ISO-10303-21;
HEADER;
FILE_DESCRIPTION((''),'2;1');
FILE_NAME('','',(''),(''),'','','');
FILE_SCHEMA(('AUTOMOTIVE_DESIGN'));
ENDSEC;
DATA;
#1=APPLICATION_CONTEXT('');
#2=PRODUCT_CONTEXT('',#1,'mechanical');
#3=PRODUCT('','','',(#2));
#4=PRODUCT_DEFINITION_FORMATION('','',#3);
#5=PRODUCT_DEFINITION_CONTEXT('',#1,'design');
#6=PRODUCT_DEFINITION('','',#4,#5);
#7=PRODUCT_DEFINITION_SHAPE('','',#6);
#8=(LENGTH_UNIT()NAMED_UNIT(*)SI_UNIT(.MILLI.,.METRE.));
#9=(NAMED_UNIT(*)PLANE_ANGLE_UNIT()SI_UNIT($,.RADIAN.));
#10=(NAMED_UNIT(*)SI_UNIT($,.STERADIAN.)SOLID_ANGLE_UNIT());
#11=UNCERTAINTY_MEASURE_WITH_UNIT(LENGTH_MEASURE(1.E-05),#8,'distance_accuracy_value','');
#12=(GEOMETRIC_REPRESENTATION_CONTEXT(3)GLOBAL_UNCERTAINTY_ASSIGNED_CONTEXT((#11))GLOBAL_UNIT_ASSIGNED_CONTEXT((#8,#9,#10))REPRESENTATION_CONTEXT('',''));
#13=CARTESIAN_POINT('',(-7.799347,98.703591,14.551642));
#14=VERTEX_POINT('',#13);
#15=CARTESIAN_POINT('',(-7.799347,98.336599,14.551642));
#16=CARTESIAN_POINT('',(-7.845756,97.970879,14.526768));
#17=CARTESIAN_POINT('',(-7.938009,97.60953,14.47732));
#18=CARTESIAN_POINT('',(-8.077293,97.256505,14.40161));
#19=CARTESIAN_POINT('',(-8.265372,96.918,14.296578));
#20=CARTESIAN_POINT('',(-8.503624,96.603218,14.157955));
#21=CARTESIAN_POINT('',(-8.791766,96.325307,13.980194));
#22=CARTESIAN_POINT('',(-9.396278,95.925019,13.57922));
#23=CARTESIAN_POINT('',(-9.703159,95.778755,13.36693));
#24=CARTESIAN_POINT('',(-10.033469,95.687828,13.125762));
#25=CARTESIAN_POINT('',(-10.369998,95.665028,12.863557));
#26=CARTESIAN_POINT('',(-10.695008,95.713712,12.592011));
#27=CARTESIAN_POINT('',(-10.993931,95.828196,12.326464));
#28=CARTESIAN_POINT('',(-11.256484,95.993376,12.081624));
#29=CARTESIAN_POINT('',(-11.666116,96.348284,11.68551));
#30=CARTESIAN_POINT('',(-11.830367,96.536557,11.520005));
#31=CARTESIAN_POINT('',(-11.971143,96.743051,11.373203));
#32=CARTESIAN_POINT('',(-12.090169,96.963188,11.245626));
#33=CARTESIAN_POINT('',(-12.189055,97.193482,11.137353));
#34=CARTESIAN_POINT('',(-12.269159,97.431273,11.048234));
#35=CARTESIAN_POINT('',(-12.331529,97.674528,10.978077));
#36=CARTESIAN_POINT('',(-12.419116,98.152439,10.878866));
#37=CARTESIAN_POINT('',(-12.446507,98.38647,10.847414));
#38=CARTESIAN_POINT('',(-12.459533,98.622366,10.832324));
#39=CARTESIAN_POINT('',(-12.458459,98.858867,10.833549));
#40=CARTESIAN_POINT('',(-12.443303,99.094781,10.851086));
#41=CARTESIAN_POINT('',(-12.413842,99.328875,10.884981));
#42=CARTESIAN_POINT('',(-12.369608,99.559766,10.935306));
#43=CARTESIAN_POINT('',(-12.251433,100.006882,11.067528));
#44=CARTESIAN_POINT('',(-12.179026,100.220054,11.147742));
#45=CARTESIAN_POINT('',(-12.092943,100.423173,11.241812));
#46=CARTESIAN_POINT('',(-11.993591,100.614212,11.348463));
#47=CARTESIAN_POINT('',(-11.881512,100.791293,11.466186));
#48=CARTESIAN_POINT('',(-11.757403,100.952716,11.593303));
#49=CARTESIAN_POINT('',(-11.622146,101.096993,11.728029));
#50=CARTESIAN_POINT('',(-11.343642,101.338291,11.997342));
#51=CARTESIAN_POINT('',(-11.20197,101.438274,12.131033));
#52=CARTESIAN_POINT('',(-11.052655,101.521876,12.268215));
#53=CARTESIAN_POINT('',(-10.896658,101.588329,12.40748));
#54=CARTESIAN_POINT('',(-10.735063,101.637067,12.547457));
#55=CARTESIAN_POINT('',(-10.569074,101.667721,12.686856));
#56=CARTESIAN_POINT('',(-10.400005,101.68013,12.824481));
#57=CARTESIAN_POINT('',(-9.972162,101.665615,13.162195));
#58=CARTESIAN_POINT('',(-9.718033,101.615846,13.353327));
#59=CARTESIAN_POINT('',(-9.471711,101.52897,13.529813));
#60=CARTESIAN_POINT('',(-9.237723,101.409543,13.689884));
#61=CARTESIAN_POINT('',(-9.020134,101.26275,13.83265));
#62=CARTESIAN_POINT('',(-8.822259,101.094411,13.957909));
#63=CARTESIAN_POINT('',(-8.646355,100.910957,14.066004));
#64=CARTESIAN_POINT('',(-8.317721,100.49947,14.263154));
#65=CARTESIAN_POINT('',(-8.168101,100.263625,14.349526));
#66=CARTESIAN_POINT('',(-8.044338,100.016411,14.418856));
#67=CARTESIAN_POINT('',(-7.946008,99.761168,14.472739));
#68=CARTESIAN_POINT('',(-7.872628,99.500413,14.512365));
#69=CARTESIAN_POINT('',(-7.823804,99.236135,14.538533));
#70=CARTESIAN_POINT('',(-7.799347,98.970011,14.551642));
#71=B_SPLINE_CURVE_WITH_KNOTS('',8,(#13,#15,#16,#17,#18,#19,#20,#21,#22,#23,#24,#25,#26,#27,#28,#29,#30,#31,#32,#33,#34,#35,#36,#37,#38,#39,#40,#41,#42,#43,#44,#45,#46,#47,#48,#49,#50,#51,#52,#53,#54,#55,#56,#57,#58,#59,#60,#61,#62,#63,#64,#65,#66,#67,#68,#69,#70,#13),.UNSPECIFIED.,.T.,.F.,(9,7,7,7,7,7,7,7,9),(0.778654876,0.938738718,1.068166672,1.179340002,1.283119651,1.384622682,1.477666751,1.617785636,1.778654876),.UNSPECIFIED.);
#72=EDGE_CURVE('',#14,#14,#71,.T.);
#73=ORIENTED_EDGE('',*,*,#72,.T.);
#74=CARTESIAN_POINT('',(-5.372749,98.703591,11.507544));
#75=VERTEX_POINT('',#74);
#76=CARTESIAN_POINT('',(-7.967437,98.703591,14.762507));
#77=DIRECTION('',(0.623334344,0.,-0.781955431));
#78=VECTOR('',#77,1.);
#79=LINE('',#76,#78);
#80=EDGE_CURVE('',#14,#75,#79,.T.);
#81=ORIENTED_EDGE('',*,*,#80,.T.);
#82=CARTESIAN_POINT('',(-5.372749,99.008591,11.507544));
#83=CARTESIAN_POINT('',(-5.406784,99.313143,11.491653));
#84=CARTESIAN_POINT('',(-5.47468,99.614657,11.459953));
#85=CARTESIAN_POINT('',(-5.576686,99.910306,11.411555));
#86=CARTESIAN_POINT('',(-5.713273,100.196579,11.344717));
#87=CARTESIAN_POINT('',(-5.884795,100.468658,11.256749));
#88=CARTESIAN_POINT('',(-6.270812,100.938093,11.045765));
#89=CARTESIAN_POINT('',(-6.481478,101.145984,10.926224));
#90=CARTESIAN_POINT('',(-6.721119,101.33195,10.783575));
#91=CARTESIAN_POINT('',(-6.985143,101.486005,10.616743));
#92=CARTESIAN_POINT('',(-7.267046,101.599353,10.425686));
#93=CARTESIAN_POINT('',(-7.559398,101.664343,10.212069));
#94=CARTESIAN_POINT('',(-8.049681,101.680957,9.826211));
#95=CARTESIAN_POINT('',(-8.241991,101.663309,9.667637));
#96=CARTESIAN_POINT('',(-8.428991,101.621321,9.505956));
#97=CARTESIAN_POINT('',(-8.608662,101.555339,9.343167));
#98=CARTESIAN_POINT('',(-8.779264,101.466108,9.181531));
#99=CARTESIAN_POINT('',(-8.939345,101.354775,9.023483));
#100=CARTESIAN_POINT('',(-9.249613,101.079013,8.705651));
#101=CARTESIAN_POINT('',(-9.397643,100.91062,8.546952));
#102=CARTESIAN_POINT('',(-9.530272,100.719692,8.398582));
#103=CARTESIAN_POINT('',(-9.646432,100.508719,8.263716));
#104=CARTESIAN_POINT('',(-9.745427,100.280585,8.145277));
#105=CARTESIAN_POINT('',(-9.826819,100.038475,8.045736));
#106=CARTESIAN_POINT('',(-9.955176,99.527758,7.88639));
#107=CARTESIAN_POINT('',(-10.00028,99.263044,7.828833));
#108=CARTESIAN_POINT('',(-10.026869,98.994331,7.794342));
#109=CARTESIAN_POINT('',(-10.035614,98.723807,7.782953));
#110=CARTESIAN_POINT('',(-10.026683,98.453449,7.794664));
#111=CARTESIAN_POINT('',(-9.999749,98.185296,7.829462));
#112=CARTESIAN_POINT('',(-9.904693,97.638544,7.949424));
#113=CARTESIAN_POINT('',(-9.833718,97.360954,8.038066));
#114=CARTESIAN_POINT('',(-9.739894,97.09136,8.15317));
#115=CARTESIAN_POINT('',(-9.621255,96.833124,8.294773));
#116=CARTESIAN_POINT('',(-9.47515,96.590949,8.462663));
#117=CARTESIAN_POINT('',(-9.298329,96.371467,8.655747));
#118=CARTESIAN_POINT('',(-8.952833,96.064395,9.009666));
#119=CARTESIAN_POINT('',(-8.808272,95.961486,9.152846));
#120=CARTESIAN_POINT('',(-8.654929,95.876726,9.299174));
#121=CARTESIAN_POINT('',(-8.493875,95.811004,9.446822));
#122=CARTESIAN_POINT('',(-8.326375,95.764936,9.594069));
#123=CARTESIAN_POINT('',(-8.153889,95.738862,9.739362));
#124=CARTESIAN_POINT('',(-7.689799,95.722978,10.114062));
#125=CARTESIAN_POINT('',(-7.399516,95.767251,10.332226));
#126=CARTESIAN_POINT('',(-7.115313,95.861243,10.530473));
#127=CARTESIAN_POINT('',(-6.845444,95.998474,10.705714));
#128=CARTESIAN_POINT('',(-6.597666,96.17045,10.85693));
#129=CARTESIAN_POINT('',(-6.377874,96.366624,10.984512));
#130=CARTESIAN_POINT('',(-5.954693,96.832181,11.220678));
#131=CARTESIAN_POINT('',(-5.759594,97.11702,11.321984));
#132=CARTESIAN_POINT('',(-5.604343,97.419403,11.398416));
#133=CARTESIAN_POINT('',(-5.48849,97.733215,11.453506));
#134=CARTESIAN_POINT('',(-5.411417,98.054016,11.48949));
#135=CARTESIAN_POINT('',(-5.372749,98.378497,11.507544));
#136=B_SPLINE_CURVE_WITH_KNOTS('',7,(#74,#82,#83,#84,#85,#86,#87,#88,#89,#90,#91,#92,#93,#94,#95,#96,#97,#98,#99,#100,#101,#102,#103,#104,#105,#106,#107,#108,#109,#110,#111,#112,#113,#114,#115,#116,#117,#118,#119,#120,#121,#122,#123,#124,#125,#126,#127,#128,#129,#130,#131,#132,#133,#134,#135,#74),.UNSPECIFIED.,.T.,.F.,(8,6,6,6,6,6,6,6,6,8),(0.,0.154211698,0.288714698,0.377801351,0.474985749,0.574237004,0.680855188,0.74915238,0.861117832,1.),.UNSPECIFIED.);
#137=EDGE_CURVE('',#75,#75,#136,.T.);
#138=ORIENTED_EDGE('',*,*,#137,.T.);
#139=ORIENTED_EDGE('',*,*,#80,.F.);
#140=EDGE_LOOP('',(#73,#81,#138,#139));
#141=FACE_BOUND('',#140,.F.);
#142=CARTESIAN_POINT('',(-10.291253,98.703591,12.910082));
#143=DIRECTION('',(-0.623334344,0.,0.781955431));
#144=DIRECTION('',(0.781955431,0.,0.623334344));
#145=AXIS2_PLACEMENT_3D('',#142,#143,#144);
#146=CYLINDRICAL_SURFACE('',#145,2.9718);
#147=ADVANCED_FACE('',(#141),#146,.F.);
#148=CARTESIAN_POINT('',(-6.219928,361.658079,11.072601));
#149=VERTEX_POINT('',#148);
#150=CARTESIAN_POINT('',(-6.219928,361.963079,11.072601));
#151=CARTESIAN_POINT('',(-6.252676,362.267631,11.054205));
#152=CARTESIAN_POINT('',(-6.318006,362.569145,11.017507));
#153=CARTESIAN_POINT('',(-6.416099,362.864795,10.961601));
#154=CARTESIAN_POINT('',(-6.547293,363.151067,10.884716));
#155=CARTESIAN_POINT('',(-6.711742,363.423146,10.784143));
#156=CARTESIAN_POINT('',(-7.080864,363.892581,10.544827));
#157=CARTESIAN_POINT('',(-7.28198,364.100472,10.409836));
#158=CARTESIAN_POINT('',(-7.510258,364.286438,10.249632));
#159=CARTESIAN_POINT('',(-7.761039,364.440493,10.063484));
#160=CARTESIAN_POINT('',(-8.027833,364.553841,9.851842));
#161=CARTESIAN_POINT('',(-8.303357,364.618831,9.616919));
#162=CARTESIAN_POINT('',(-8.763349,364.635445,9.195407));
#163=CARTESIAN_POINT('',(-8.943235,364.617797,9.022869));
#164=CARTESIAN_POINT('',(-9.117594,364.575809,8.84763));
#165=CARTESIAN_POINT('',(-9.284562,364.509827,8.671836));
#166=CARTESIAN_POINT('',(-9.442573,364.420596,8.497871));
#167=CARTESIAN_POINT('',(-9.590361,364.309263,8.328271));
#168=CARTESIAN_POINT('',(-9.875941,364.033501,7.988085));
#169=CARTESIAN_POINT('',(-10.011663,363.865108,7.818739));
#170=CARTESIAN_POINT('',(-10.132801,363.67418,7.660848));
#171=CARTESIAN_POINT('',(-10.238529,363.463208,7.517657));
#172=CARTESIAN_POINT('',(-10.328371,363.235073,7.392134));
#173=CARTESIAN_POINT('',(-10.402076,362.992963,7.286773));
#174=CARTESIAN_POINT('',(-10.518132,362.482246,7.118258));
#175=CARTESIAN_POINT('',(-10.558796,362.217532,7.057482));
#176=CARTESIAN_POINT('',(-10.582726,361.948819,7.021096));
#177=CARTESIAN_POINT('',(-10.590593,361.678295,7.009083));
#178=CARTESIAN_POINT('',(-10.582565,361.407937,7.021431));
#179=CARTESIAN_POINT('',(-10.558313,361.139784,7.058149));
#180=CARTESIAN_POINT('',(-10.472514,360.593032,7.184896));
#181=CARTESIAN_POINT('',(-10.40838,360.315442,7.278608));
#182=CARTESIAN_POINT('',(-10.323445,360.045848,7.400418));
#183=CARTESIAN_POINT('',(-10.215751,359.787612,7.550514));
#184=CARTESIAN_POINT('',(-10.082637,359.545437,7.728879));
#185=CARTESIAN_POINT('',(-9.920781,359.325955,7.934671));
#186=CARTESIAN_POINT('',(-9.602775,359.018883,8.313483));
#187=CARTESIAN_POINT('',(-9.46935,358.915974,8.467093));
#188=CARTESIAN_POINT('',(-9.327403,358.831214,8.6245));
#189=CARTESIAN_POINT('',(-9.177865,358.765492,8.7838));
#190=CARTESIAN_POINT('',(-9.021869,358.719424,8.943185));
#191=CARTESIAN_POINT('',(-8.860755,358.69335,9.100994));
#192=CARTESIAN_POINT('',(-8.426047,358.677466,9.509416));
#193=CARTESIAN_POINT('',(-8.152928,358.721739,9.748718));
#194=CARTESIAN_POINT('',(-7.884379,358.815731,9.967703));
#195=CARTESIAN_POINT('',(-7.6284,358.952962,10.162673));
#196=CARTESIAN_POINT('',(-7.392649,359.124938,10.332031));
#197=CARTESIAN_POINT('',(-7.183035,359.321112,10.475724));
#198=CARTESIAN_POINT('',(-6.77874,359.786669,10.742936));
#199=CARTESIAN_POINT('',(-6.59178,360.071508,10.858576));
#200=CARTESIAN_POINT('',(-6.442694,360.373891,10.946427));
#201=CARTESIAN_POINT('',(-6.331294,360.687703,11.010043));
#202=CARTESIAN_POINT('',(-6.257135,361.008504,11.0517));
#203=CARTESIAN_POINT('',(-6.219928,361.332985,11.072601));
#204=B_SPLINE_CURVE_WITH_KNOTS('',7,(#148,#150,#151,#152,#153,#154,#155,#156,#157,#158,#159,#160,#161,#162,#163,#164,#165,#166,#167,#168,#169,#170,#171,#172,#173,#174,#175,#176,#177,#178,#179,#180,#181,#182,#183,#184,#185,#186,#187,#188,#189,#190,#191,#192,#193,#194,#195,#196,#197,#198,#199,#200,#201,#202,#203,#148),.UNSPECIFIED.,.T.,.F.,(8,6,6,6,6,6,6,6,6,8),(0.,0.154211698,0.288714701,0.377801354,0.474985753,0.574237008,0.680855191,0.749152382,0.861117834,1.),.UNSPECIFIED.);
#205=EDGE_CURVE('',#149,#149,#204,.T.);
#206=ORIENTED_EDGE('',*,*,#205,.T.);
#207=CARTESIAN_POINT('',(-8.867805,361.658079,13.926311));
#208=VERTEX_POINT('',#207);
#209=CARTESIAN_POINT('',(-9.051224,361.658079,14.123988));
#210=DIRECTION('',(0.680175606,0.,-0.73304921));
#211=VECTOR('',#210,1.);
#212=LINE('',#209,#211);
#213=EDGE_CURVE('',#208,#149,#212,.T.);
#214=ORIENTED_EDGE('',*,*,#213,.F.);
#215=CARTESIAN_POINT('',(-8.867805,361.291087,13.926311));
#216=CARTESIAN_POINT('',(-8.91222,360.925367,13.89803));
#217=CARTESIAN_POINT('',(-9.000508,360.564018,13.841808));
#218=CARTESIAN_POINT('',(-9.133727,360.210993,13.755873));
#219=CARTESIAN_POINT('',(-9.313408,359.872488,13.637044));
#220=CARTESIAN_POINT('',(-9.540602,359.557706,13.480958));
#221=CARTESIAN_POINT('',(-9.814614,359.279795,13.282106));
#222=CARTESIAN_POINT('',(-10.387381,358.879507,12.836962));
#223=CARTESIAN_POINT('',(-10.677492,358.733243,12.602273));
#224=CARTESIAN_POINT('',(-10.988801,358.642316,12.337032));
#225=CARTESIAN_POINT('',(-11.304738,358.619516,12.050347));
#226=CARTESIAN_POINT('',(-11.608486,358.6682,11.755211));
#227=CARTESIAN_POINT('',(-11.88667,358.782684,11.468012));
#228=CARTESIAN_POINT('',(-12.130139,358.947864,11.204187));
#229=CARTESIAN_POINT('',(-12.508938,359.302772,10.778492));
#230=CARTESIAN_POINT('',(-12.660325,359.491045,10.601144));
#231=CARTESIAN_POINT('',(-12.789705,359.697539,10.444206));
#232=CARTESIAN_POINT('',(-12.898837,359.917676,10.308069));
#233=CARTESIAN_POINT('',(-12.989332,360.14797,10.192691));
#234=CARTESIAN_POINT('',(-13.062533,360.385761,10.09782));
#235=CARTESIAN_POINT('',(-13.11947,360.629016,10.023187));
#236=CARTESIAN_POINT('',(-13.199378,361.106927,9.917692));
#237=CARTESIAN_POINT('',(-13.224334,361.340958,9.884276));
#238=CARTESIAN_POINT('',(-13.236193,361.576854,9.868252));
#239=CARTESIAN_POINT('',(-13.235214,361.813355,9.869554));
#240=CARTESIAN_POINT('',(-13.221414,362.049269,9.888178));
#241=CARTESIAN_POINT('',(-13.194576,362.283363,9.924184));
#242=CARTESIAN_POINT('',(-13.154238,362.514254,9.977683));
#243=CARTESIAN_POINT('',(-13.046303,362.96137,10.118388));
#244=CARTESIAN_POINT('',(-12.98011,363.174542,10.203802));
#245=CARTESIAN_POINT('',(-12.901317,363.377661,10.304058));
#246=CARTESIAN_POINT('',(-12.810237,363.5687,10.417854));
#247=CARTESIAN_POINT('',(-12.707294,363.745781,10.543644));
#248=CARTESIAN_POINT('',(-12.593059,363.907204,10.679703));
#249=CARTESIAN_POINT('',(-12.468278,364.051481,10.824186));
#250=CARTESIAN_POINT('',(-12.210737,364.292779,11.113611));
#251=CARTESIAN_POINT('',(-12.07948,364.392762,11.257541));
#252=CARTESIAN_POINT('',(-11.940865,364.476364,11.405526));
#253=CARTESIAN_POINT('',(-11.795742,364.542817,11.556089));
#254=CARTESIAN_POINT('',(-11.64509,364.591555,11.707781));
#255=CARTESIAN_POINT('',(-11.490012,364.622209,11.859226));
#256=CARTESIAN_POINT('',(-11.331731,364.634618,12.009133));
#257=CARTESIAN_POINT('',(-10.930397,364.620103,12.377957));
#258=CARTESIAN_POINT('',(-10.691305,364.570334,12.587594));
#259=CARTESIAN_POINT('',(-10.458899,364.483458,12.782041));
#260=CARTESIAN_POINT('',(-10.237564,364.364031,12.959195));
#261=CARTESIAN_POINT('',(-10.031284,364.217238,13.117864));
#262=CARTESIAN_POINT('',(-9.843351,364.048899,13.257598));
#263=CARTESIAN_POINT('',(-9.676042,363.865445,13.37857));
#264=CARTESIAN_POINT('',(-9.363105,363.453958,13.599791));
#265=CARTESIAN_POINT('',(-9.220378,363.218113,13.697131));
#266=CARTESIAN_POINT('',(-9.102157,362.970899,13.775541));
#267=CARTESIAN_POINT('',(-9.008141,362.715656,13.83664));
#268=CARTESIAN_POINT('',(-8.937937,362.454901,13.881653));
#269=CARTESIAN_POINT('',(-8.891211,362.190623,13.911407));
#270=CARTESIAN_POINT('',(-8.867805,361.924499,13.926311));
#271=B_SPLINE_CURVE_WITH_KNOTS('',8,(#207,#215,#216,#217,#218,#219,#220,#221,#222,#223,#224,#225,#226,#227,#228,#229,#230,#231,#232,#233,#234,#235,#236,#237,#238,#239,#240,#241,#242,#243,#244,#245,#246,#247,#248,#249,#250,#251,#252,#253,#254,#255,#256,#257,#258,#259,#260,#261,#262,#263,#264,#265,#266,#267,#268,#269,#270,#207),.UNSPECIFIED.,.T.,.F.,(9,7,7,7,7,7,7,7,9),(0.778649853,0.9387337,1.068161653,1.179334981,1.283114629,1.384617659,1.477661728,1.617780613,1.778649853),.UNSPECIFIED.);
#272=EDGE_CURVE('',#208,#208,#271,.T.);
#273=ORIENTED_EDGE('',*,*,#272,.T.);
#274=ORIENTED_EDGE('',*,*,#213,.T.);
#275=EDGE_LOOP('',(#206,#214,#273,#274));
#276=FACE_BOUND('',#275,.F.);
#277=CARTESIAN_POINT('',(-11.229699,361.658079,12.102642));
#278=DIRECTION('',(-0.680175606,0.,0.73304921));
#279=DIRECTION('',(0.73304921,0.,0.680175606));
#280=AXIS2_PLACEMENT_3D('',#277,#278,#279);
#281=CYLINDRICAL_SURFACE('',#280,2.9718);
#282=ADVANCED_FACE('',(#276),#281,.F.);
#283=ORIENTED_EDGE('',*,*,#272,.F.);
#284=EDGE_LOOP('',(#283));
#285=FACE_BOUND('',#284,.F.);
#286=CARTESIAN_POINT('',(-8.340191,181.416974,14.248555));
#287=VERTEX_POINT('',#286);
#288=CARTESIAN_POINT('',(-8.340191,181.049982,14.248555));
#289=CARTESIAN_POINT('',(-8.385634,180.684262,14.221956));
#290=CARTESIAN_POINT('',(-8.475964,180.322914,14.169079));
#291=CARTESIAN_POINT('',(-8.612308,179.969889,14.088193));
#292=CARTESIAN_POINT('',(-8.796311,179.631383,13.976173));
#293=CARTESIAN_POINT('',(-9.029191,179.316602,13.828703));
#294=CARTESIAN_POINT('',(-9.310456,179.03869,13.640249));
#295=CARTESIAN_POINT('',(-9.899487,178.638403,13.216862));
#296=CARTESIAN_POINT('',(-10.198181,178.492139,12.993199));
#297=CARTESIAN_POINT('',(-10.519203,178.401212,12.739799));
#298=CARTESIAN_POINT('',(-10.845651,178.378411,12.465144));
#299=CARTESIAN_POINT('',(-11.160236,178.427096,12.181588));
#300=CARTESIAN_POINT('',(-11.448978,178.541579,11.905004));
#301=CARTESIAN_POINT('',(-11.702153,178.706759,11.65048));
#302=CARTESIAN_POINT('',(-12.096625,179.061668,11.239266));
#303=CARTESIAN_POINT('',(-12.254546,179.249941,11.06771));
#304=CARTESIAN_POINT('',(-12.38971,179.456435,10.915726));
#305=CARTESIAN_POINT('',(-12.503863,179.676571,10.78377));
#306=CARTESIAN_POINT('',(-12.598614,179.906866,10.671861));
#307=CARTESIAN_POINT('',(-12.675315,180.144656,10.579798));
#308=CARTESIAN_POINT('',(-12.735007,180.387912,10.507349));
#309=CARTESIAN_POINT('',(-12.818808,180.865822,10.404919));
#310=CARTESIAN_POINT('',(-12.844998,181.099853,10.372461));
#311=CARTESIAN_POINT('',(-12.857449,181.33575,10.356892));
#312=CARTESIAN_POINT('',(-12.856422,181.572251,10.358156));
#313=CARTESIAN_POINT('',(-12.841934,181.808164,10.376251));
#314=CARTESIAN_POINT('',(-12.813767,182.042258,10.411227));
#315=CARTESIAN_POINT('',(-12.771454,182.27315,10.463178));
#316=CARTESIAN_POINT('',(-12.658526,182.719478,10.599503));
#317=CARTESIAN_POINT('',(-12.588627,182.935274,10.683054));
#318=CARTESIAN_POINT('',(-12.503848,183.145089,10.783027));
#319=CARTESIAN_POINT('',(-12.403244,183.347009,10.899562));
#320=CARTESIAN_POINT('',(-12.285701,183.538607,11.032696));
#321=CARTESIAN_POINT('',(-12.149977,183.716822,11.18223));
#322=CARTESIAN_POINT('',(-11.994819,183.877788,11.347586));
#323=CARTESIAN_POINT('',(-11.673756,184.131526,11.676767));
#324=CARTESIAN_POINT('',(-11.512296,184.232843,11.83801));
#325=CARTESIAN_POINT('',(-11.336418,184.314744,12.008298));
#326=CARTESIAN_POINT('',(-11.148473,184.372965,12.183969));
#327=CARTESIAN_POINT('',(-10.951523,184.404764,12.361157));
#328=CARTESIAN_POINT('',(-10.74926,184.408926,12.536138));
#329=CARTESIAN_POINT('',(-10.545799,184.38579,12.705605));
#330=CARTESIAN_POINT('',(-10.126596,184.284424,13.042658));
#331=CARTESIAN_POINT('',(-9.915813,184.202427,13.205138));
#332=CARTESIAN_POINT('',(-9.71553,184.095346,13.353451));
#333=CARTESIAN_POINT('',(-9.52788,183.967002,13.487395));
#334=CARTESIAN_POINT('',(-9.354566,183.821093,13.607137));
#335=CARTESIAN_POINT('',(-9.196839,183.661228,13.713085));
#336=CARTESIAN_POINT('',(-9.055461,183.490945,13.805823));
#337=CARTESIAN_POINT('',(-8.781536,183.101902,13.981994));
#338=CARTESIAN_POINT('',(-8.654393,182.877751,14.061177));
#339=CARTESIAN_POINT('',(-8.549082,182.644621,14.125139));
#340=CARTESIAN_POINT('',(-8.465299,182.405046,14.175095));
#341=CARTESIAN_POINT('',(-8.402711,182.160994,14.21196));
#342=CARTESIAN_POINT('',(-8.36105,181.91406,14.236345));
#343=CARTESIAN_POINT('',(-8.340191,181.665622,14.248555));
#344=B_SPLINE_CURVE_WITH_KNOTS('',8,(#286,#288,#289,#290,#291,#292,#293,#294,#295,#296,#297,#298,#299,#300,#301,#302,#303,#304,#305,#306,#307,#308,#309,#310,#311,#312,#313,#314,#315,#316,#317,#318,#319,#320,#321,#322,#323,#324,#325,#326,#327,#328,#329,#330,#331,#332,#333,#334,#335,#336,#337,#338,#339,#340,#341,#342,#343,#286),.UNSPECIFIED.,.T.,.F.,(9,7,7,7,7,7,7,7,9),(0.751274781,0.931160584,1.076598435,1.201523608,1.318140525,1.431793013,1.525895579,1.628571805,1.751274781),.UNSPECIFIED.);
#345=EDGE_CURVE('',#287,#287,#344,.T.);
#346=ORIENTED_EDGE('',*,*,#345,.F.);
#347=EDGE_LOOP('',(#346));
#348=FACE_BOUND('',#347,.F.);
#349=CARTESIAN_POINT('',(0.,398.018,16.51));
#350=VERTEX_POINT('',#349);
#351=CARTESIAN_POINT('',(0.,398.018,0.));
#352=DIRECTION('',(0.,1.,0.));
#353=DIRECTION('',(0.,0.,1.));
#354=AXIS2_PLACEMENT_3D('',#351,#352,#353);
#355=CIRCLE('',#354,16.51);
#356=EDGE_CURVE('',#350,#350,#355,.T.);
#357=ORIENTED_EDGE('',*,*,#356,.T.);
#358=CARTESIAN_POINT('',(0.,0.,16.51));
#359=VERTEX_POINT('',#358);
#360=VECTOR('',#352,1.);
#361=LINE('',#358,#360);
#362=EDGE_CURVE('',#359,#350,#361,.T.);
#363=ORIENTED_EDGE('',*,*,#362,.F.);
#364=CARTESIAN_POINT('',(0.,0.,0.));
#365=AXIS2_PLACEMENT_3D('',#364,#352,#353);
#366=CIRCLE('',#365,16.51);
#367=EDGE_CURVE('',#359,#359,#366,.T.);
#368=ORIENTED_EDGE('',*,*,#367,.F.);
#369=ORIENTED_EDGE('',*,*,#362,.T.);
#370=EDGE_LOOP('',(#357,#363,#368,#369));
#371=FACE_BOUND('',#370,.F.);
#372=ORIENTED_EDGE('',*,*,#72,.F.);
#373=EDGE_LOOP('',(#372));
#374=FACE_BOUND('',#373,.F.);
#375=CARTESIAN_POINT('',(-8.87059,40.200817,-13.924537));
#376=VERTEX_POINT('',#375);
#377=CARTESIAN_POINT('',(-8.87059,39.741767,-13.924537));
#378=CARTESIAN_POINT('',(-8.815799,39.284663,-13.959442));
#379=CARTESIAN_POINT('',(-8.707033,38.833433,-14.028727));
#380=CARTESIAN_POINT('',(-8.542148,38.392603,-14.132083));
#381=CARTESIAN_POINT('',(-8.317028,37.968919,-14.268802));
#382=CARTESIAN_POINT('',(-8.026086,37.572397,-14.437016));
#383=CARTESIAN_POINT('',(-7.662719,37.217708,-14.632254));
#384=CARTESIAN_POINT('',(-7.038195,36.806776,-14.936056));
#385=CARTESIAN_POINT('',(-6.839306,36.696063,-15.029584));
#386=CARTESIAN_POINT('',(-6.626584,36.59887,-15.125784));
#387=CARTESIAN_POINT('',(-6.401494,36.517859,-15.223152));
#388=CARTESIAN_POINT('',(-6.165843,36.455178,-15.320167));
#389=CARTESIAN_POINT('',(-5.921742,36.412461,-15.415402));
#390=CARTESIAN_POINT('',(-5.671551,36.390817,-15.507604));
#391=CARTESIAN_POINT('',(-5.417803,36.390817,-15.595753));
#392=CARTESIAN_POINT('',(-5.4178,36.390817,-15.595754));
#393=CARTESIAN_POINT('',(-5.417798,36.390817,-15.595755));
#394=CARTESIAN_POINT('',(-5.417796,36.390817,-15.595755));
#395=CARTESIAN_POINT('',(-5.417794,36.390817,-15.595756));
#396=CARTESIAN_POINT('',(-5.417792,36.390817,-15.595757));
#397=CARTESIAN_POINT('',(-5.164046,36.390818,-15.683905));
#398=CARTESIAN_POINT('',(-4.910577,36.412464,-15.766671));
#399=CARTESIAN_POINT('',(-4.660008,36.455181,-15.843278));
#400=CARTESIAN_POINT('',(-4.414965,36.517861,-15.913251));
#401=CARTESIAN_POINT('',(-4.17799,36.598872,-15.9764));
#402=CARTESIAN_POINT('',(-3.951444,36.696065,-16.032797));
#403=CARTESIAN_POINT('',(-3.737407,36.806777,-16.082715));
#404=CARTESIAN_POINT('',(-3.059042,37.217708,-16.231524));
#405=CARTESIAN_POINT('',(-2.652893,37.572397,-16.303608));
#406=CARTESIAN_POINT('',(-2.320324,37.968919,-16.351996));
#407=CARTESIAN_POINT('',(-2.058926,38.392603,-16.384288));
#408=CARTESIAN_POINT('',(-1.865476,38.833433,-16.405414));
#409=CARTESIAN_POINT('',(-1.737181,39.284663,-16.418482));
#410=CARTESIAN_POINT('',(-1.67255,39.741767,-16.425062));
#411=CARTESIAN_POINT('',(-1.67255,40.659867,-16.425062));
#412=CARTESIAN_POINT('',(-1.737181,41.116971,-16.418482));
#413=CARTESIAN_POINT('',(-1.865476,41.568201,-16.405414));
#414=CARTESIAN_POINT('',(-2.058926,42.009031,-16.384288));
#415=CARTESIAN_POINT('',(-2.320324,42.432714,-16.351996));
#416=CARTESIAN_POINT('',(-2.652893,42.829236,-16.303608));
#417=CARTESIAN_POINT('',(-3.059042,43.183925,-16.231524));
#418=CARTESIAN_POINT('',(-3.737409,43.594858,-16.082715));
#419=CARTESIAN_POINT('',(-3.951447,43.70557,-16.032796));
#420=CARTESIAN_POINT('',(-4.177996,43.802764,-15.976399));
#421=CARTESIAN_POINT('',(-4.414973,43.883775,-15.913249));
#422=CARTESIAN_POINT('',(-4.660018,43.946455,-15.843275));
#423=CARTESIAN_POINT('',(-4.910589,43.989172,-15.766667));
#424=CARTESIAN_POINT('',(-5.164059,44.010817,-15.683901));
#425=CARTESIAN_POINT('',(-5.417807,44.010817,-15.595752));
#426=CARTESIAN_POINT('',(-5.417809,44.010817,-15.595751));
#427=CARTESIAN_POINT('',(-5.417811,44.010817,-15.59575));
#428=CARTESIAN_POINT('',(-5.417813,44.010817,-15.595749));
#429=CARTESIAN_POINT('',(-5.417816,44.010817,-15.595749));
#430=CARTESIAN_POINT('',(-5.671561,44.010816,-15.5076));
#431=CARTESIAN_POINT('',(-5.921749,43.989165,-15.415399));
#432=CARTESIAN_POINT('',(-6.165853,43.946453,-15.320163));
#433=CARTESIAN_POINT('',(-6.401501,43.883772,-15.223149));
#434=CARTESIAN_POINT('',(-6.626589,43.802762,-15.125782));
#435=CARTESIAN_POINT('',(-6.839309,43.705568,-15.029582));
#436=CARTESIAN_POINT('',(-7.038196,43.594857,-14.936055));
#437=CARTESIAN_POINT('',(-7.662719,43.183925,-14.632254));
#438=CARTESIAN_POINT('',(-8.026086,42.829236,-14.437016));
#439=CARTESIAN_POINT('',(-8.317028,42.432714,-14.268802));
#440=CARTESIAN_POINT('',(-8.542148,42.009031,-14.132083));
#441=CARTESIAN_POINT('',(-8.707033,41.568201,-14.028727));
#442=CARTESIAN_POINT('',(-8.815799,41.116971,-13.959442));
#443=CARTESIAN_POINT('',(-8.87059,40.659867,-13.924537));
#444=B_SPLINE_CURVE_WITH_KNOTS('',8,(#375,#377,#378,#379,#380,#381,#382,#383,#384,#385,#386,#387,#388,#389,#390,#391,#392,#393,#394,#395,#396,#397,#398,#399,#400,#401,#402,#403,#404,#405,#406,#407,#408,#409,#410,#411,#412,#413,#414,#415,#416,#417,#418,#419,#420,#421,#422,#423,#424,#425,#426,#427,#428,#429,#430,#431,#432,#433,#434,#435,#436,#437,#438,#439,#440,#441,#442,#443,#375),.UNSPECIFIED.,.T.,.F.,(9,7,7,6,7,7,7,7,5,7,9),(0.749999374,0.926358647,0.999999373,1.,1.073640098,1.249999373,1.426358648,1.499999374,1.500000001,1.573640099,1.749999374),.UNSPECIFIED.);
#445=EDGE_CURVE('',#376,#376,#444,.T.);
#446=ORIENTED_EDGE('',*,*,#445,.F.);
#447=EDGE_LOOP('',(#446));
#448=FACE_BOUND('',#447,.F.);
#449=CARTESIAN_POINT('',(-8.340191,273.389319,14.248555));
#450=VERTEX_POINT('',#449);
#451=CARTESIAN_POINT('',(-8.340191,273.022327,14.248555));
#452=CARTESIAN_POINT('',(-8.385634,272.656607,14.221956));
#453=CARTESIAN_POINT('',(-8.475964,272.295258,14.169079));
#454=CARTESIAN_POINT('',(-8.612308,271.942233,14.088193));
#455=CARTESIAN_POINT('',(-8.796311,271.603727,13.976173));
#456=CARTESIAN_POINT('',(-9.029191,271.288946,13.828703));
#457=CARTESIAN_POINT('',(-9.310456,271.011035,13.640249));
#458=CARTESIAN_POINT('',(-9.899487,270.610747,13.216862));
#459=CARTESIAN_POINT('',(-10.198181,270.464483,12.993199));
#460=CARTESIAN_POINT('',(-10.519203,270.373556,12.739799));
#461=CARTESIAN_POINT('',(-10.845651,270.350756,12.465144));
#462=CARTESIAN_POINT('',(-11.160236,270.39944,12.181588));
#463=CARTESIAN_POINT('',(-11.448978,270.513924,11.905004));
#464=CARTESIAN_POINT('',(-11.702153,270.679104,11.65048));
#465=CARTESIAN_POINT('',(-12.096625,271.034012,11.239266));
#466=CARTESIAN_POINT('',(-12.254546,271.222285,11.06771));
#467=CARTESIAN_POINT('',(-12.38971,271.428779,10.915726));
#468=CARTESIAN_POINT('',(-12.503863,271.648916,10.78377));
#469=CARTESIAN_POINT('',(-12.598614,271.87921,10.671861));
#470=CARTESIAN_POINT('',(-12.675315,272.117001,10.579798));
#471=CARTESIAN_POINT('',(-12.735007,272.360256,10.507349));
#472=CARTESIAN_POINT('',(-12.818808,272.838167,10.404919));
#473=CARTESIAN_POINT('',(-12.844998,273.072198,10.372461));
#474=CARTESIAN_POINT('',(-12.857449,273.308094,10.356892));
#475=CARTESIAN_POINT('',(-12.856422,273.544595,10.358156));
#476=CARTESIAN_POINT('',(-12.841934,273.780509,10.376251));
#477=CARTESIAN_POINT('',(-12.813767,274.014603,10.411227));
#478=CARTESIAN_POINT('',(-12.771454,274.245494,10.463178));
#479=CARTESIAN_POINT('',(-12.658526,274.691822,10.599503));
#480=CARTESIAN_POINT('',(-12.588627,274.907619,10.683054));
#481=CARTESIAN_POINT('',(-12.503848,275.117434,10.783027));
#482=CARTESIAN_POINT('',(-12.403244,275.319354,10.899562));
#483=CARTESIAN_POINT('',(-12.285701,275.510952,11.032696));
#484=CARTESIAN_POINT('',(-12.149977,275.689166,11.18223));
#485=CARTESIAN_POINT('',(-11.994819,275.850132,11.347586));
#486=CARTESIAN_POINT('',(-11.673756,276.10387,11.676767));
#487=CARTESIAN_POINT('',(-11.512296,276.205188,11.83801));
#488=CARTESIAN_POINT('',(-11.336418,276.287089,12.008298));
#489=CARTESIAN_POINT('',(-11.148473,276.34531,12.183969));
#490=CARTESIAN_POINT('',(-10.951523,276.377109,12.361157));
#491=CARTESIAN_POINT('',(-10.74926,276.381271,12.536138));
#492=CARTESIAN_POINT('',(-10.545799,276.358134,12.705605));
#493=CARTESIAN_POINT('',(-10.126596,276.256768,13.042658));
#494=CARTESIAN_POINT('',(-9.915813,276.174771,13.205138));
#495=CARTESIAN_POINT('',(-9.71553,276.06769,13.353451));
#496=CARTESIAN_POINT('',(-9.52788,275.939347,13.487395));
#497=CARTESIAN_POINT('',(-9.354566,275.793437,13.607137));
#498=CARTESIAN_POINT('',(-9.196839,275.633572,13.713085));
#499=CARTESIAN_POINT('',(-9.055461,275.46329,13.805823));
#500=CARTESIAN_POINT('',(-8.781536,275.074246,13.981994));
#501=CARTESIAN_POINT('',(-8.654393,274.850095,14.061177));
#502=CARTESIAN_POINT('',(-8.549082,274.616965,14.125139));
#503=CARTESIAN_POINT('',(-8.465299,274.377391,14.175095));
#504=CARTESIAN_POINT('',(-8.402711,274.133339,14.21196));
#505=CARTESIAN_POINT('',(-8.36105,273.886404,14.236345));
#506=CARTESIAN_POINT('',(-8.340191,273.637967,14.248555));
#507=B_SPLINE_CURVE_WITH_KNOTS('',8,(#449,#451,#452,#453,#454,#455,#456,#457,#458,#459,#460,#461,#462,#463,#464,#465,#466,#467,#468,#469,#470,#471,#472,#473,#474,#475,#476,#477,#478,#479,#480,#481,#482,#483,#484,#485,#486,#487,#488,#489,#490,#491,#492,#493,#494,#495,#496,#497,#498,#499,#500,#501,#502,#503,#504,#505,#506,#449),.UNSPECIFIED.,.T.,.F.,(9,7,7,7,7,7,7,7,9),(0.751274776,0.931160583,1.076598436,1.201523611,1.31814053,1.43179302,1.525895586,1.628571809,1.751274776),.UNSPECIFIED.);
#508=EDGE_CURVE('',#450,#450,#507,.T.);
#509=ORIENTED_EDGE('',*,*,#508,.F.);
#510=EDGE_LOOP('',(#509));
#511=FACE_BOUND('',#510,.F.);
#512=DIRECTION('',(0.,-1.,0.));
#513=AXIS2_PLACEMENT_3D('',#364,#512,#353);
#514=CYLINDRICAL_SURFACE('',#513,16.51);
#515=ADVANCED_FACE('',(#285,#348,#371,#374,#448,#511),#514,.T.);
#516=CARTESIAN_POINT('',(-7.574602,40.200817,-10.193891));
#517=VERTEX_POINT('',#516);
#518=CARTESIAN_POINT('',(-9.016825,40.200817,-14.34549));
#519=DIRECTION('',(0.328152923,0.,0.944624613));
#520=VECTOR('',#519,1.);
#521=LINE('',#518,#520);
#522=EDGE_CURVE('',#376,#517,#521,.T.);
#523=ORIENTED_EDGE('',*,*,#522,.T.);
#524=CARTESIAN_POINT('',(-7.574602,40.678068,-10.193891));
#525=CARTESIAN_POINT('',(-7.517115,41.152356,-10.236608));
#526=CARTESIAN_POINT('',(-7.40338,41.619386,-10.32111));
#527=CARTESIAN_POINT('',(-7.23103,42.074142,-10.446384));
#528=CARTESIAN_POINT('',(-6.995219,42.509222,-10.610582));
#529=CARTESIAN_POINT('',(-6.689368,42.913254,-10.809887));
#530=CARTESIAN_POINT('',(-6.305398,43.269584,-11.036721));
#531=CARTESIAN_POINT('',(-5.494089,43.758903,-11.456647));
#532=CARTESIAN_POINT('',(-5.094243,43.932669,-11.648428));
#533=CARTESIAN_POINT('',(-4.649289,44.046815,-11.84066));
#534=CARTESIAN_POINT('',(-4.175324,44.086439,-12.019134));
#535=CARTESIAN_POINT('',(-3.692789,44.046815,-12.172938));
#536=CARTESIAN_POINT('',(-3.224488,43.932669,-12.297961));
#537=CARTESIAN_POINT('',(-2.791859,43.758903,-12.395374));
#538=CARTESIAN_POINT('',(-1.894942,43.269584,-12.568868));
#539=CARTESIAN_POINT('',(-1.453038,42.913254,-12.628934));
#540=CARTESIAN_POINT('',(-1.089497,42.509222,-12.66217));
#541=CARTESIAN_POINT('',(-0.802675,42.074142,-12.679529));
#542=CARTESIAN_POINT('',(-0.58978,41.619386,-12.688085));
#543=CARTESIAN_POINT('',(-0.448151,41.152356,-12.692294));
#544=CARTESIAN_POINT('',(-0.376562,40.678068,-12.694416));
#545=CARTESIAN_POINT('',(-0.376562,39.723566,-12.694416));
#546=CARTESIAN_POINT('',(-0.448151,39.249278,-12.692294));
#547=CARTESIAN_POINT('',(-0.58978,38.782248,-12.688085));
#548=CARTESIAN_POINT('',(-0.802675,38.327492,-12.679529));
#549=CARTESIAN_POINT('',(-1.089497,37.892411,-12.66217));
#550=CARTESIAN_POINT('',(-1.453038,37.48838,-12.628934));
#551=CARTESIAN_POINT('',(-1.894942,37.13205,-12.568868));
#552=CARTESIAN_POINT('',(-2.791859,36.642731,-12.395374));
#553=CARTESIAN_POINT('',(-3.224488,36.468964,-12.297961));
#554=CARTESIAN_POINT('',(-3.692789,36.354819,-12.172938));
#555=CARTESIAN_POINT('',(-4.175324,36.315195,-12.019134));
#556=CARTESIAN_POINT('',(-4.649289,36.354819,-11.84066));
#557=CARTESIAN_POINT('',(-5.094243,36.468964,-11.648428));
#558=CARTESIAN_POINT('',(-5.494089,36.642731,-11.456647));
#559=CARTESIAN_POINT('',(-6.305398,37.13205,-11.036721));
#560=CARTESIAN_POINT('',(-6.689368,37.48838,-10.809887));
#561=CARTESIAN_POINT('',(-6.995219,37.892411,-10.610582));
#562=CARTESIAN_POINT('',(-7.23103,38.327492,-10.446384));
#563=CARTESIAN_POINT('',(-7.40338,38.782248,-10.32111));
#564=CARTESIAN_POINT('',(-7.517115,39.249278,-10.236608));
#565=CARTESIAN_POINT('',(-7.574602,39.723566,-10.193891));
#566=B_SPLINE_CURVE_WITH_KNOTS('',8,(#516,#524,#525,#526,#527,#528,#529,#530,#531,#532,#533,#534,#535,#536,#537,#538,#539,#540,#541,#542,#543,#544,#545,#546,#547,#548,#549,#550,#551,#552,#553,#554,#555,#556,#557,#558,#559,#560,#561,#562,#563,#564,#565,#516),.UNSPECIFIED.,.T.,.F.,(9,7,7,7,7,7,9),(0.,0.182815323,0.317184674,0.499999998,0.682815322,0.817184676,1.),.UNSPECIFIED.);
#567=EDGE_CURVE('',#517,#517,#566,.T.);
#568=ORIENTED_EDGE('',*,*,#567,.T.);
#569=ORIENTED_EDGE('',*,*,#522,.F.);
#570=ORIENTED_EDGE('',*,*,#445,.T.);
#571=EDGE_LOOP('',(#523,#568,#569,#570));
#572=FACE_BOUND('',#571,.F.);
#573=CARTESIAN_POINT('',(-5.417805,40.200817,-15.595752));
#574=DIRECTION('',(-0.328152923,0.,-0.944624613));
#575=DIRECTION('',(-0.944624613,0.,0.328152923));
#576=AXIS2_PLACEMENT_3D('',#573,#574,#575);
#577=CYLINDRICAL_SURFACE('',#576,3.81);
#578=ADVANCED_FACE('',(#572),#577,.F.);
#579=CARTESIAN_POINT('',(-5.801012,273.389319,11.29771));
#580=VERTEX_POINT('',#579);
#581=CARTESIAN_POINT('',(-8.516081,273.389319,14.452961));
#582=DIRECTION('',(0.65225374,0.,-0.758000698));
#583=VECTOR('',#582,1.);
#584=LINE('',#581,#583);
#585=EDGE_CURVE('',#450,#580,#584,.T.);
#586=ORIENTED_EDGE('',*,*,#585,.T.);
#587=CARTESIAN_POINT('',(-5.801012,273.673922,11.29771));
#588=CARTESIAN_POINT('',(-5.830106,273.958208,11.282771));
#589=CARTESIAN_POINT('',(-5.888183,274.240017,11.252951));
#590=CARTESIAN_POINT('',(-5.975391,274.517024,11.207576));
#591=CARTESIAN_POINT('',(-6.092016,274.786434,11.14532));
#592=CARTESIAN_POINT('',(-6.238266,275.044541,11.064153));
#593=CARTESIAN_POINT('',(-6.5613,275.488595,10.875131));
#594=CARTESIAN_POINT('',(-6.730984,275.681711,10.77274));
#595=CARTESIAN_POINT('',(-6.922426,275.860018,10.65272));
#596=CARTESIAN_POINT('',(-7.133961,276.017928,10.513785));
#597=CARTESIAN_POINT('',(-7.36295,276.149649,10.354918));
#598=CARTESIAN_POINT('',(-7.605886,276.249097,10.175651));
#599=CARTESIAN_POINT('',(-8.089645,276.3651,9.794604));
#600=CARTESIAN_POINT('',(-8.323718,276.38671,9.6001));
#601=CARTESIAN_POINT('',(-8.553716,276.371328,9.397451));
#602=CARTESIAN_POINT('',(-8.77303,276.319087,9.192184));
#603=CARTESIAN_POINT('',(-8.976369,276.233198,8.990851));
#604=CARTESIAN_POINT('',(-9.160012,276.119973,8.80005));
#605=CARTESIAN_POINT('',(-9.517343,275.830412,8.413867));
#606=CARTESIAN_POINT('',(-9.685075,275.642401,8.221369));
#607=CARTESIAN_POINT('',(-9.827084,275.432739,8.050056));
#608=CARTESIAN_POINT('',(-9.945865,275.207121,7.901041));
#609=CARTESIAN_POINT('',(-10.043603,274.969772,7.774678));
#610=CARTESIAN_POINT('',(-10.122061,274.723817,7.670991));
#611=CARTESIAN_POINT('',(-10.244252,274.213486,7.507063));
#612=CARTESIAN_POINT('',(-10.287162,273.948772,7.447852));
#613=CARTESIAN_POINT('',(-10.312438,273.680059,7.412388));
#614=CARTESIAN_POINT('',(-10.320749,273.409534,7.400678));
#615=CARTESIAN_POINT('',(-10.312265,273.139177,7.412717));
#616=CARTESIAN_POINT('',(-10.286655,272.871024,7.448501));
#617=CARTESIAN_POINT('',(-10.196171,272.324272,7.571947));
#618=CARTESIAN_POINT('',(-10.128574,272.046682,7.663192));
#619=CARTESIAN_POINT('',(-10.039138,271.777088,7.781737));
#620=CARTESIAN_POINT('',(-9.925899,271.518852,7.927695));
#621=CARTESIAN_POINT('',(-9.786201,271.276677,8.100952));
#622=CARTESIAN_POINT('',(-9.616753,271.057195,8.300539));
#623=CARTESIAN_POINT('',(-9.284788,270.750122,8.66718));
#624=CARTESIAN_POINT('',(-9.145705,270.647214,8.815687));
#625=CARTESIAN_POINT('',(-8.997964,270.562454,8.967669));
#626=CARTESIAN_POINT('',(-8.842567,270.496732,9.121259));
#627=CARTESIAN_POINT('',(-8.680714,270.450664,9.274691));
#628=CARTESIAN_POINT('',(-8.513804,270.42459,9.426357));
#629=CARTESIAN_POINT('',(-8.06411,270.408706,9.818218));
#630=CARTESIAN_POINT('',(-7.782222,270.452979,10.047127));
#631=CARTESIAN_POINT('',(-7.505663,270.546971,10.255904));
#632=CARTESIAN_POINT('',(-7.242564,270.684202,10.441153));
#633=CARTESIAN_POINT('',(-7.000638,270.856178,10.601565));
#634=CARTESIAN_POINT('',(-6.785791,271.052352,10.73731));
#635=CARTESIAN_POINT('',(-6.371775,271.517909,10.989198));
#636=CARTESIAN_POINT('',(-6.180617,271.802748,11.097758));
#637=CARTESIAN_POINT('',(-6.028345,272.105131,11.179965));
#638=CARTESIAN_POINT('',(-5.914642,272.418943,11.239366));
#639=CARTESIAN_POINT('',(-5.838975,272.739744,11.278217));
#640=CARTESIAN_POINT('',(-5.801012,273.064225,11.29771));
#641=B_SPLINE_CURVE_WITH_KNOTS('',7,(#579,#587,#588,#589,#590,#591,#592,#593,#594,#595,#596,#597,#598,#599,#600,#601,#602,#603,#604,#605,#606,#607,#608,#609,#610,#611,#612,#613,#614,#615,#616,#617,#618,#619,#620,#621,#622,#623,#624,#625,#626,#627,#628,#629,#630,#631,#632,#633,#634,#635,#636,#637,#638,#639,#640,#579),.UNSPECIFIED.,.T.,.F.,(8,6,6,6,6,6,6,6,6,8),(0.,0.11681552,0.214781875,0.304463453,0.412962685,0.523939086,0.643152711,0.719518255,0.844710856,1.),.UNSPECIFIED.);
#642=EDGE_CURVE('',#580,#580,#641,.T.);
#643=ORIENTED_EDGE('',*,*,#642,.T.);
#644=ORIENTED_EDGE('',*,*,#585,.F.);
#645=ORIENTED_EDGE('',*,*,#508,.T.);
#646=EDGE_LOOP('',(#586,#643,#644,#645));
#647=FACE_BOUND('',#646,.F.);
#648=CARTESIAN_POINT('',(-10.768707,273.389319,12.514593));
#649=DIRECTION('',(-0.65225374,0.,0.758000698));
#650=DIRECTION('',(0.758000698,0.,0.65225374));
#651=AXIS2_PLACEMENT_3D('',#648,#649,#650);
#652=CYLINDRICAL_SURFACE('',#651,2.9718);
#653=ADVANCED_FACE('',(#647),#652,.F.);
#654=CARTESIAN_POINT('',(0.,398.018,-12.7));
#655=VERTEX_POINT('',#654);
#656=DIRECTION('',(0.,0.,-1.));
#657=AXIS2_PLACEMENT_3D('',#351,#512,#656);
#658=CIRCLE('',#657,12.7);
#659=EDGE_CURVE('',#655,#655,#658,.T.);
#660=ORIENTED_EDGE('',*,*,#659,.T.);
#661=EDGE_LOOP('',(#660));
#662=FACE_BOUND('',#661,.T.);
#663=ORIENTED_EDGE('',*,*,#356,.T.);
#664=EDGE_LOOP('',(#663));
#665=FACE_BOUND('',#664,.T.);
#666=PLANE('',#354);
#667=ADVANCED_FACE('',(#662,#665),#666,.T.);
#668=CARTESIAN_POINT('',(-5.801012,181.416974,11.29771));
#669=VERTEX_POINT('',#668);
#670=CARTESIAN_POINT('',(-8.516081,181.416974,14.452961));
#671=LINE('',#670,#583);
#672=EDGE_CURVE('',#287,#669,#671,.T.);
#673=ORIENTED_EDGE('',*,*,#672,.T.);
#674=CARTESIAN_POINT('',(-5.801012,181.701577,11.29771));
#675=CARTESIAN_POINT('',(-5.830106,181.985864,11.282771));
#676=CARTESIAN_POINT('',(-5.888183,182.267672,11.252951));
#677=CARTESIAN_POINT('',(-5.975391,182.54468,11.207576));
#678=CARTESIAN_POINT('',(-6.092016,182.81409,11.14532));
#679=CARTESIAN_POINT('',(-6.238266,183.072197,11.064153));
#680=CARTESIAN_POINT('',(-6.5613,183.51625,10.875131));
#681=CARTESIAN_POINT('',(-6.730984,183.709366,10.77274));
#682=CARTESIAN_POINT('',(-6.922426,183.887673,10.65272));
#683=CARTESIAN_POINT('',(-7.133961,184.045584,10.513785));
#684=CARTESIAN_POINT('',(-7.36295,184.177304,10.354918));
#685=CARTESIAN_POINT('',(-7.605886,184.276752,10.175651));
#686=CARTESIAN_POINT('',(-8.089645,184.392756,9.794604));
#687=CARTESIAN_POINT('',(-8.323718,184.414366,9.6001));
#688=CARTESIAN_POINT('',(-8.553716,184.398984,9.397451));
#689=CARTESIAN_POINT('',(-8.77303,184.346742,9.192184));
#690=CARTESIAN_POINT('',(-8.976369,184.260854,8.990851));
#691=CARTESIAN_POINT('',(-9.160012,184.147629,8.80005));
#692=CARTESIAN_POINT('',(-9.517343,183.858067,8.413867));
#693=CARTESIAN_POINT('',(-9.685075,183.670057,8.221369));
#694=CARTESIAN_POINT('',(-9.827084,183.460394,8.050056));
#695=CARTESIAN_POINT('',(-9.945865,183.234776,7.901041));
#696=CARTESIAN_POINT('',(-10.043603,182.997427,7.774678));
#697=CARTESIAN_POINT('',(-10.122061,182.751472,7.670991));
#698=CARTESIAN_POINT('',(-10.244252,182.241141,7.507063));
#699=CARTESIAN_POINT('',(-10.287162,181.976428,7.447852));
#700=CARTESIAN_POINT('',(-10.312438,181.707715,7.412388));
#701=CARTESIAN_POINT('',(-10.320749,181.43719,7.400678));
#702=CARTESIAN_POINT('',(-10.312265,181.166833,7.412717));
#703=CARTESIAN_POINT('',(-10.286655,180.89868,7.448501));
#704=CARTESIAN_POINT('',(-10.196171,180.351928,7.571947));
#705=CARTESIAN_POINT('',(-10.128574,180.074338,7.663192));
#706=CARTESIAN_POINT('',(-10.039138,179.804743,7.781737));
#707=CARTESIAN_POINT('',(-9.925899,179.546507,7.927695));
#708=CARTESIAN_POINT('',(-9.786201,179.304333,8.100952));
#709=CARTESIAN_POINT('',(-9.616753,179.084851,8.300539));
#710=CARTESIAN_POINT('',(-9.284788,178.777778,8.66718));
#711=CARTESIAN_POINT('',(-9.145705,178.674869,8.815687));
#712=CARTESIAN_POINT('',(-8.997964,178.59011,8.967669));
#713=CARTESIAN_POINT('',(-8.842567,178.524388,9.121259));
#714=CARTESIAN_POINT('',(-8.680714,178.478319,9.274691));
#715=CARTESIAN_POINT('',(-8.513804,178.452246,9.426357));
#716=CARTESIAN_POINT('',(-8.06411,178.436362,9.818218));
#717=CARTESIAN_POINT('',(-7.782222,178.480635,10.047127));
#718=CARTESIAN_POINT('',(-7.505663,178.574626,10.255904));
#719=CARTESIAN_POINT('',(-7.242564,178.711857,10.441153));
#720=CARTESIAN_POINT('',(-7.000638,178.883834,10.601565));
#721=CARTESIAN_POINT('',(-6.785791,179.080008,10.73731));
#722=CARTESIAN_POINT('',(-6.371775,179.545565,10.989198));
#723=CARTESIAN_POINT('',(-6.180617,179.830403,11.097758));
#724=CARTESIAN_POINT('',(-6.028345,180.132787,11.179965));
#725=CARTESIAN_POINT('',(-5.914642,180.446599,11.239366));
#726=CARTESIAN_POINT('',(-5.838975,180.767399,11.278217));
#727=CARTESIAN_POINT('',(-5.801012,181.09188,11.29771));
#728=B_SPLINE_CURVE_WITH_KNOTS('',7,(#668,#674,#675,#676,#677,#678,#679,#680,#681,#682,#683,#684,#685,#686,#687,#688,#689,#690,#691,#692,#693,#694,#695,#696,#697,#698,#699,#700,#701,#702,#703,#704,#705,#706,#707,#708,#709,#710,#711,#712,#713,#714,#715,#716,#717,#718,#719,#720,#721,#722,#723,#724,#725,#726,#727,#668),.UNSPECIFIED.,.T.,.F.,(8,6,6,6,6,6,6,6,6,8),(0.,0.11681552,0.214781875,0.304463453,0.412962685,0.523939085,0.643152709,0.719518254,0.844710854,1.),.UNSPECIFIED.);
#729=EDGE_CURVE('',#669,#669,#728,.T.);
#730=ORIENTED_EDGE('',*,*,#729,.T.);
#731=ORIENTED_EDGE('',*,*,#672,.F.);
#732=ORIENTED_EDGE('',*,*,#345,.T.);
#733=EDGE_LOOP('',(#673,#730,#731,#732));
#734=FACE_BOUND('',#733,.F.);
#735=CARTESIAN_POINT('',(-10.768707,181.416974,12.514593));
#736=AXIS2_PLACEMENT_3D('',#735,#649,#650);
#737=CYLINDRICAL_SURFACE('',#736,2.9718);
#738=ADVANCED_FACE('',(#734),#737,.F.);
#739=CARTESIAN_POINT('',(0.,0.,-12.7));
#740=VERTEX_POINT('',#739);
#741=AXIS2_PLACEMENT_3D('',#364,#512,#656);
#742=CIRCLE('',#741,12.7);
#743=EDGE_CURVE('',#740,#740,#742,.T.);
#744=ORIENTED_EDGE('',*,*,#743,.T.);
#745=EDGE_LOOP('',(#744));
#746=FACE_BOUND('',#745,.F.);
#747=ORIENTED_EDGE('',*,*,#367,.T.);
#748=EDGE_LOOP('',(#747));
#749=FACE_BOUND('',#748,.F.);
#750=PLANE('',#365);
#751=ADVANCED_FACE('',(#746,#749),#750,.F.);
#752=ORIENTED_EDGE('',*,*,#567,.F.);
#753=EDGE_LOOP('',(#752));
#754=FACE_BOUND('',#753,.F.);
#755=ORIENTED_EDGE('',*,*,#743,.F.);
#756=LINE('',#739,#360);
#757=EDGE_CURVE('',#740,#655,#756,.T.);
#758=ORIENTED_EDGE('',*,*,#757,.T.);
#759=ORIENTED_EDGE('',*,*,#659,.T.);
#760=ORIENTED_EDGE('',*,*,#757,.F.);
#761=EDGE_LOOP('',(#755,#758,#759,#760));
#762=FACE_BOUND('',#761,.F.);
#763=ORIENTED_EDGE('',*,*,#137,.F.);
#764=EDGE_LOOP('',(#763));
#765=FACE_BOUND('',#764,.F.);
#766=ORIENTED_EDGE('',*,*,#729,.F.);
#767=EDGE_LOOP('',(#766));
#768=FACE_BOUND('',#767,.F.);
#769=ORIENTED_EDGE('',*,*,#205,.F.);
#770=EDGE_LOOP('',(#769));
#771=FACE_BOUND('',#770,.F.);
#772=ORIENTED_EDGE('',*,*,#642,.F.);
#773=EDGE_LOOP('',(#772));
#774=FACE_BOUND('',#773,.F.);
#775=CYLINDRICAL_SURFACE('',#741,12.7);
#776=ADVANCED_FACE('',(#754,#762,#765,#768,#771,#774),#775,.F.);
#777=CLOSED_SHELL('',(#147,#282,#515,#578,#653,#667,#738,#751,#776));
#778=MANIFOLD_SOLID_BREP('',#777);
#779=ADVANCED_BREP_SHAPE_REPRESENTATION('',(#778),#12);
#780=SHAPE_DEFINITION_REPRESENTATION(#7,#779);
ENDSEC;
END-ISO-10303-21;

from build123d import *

# Parameters (mm, degrees)
SKETCH2_R                              = 16.51
BOSS_EXTRUDE1_DEPTH                    = 398.018
SKETCH3_R                              = 12.7
CUT_EXTRUDE1_DEPTH                     = 398.018
A_0_234_DIAMETER_HOLE1_REACH           = 365.847
A_0_234_DIAMETER_HOLE1_BORE_R          = 2.9718
A_0_234_DIAMETER_HOLE1_ON_FACE_2_REACH = 278.276
A_0_234_DIAMETER_HOLE1_BORE_2_R        = 2.9718
A_0_234_DIAMETER_HOLE1_ON_FACE_3_REACH = 303.949
A_0_234_DIAMETER_HOLE1_BORE_3_R        = 2.9718
N_0_302_DIAMETER_HOLE1_REACH           = 361.923
N_0_302_DIAMETER_HOLE1_BORE_R          = 3.81


with BuildPart() as part:
    # Sketch2 → Boss-Extrude1 (new body)
    with BuildSketch(Plane(origin=(0, 0, 0), x_dir=(1, 0, 0), z_dir=(0, 1, 0))):
        with Locations(Location((0, 0, 0), (0, 0, 270))):
            Circle(SKETCH2_R)
    extrude(amount=BOSS_EXTRUDE1_DEPTH)

    # Sketch3 → Cut-Extrude1 (cut)
    with BuildSketch(Plane.XZ):
        with Locations(Location((0, 0, 0), (0, 0, 270))):
            Circle(SKETCH3_R)
    extrude(amount=-CUT_EXTRUDE1_DEPTH, mode=Mode.SUBTRACT)

    # A (0.234) Diameter Hole1 bore (on position points) → A (0.234) Diameter Hole1 (cut, up to next)
    with BuildSketch(Plane(origin=(-11.22969926, 361.658078854, 12.10264246), x_dir=(0.733049210198, 0, 0.680175606317), z_dir=(-0.680175606317, 0, 0.733049210198)), mode=Mode.PRIVATE) as a_0_234_diameter_hole1_sk1:
        Circle(A_0_234_DIAMETER_HOLE1_BORE_R)
    a_0_234_diameter_hole1_tool1 = extrude(a_0_234_diameter_hole1_sk1.sketch, amount=-A_0_234_DIAMETER_HOLE1_REACH, mode=Mode.PRIVATE) & part.part
    add(a_0_234_diameter_hole1_tool1.solids().sort_by_distance((-11.229699, 361.658079, 12.102642))[0], mode=Mode.SUBTRACT)

    # A (0.234) Diameter Hole1 bore 2 (on position points) → A (0.234) Diameter Hole1 on face 2 (cut, up to next)
    with BuildSketch(Plane(origin=(-10.768707034, 273.389318793, 12.514593434), x_dir=(0.75800069812, 0, 0.652253740234), z_dir=(-0.652253740234, 0, 0.75800069812)), mode=Mode.PRIVATE) as a_0_234_diameter_hole1_on_face_2_sk1:
        Circle(A_0_234_DIAMETER_HOLE1_BORE_2_R)
    a_0_234_diameter_hole1_on_face_2_tool1 = extrude(a_0_234_diameter_hole1_on_face_2_sk1.sketch, amount=-A_0_234_DIAMETER_HOLE1_ON_FACE_2_REACH, mode=Mode.PRIVATE) & part.part
    # A (0.234) Diameter Hole1 bore 2 (on position points) → A (0.234) Diameter Hole1 on face 2 (cut, up to next)
    with BuildSketch(Plane(origin=(-10.768707034, 273.389318793, 12.514593434), x_dir=(0.75800069812, 0, 0.652253740234), z_dir=(-0.652253740234, 0, 0.75800069812)), mode=Mode.PRIVATE) as a_0_234_diameter_hole1_on_face_2_sk2:
        with Locations((0, -91.9723444)):
            Circle(A_0_234_DIAMETER_HOLE1_BORE_2_R)
    a_0_234_diameter_hole1_on_face_2_tool2 = extrude(a_0_234_diameter_hole1_on_face_2_sk2.sketch, amount=-A_0_234_DIAMETER_HOLE1_ON_FACE_2_REACH, mode=Mode.PRIVATE) & part.part
    add(a_0_234_diameter_hole1_on_face_2_tool1.solids().sort_by_distance((-10.768707, 273.389319, 12.514593))[0], mode=Mode.SUBTRACT)
    add(a_0_234_diameter_hole1_on_face_2_tool2.solids().sort_by_distance((-10.768707, 181.416974, 12.514593))[0], mode=Mode.SUBTRACT)

    # A (0.234) Diameter Hole1 bore 3 (on position points) → A (0.234) Diameter Hole1 on face 3 (cut, up to next)
    with BuildSketch(Plane(origin=(-10.291252546, 98.70359084, 12.910082147), x_dir=(0.781955431021, 0, 0.623334343588), z_dir=(-0.623334343588, 0, 0.781955431021)), mode=Mode.PRIVATE) as a_0_234_diameter_hole1_on_face_3_sk1:
        Circle(A_0_234_DIAMETER_HOLE1_BORE_3_R)
    a_0_234_diameter_hole1_on_face_3_tool1 = extrude(a_0_234_diameter_hole1_on_face_3_sk1.sketch, amount=-A_0_234_DIAMETER_HOLE1_ON_FACE_3_REACH, mode=Mode.PRIVATE) & part.part
    add(a_0_234_diameter_hole1_on_face_3_tool1.solids().sort_by_distance((-10.291253, 98.703591, 12.910082))[0], mode=Mode.SUBTRACT)

    # N (0.302) Diameter Hole1 bore (on position points) → N (0.302) Diameter Hole1 (cut, up to next)
    with BuildSketch(Plane(origin=(-5.417804763, 40.200816881, -15.595752356), x_dir=(-0.944624612714, 0, 0.328152923277), z_dir=(-0.328152923277, 0, -0.944624612714)), mode=Mode.PRIVATE) as n_0_302_diameter_hole1_sk1:
        Circle(N_0_302_DIAMETER_HOLE1_BORE_R)
    n_0_302_diameter_hole1_tool1 = extrude(n_0_302_diameter_hole1_sk1.sketch, amount=-N_0_302_DIAMETER_HOLE1_REACH, mode=Mode.PRIVATE) & part.part
    add(n_0_302_diameter_hole1_tool1.solids().sort_by_distance((-5.417805, 40.200817, -15.595752))[0], mode=Mode.SUBTRACT)


solid = part.part
